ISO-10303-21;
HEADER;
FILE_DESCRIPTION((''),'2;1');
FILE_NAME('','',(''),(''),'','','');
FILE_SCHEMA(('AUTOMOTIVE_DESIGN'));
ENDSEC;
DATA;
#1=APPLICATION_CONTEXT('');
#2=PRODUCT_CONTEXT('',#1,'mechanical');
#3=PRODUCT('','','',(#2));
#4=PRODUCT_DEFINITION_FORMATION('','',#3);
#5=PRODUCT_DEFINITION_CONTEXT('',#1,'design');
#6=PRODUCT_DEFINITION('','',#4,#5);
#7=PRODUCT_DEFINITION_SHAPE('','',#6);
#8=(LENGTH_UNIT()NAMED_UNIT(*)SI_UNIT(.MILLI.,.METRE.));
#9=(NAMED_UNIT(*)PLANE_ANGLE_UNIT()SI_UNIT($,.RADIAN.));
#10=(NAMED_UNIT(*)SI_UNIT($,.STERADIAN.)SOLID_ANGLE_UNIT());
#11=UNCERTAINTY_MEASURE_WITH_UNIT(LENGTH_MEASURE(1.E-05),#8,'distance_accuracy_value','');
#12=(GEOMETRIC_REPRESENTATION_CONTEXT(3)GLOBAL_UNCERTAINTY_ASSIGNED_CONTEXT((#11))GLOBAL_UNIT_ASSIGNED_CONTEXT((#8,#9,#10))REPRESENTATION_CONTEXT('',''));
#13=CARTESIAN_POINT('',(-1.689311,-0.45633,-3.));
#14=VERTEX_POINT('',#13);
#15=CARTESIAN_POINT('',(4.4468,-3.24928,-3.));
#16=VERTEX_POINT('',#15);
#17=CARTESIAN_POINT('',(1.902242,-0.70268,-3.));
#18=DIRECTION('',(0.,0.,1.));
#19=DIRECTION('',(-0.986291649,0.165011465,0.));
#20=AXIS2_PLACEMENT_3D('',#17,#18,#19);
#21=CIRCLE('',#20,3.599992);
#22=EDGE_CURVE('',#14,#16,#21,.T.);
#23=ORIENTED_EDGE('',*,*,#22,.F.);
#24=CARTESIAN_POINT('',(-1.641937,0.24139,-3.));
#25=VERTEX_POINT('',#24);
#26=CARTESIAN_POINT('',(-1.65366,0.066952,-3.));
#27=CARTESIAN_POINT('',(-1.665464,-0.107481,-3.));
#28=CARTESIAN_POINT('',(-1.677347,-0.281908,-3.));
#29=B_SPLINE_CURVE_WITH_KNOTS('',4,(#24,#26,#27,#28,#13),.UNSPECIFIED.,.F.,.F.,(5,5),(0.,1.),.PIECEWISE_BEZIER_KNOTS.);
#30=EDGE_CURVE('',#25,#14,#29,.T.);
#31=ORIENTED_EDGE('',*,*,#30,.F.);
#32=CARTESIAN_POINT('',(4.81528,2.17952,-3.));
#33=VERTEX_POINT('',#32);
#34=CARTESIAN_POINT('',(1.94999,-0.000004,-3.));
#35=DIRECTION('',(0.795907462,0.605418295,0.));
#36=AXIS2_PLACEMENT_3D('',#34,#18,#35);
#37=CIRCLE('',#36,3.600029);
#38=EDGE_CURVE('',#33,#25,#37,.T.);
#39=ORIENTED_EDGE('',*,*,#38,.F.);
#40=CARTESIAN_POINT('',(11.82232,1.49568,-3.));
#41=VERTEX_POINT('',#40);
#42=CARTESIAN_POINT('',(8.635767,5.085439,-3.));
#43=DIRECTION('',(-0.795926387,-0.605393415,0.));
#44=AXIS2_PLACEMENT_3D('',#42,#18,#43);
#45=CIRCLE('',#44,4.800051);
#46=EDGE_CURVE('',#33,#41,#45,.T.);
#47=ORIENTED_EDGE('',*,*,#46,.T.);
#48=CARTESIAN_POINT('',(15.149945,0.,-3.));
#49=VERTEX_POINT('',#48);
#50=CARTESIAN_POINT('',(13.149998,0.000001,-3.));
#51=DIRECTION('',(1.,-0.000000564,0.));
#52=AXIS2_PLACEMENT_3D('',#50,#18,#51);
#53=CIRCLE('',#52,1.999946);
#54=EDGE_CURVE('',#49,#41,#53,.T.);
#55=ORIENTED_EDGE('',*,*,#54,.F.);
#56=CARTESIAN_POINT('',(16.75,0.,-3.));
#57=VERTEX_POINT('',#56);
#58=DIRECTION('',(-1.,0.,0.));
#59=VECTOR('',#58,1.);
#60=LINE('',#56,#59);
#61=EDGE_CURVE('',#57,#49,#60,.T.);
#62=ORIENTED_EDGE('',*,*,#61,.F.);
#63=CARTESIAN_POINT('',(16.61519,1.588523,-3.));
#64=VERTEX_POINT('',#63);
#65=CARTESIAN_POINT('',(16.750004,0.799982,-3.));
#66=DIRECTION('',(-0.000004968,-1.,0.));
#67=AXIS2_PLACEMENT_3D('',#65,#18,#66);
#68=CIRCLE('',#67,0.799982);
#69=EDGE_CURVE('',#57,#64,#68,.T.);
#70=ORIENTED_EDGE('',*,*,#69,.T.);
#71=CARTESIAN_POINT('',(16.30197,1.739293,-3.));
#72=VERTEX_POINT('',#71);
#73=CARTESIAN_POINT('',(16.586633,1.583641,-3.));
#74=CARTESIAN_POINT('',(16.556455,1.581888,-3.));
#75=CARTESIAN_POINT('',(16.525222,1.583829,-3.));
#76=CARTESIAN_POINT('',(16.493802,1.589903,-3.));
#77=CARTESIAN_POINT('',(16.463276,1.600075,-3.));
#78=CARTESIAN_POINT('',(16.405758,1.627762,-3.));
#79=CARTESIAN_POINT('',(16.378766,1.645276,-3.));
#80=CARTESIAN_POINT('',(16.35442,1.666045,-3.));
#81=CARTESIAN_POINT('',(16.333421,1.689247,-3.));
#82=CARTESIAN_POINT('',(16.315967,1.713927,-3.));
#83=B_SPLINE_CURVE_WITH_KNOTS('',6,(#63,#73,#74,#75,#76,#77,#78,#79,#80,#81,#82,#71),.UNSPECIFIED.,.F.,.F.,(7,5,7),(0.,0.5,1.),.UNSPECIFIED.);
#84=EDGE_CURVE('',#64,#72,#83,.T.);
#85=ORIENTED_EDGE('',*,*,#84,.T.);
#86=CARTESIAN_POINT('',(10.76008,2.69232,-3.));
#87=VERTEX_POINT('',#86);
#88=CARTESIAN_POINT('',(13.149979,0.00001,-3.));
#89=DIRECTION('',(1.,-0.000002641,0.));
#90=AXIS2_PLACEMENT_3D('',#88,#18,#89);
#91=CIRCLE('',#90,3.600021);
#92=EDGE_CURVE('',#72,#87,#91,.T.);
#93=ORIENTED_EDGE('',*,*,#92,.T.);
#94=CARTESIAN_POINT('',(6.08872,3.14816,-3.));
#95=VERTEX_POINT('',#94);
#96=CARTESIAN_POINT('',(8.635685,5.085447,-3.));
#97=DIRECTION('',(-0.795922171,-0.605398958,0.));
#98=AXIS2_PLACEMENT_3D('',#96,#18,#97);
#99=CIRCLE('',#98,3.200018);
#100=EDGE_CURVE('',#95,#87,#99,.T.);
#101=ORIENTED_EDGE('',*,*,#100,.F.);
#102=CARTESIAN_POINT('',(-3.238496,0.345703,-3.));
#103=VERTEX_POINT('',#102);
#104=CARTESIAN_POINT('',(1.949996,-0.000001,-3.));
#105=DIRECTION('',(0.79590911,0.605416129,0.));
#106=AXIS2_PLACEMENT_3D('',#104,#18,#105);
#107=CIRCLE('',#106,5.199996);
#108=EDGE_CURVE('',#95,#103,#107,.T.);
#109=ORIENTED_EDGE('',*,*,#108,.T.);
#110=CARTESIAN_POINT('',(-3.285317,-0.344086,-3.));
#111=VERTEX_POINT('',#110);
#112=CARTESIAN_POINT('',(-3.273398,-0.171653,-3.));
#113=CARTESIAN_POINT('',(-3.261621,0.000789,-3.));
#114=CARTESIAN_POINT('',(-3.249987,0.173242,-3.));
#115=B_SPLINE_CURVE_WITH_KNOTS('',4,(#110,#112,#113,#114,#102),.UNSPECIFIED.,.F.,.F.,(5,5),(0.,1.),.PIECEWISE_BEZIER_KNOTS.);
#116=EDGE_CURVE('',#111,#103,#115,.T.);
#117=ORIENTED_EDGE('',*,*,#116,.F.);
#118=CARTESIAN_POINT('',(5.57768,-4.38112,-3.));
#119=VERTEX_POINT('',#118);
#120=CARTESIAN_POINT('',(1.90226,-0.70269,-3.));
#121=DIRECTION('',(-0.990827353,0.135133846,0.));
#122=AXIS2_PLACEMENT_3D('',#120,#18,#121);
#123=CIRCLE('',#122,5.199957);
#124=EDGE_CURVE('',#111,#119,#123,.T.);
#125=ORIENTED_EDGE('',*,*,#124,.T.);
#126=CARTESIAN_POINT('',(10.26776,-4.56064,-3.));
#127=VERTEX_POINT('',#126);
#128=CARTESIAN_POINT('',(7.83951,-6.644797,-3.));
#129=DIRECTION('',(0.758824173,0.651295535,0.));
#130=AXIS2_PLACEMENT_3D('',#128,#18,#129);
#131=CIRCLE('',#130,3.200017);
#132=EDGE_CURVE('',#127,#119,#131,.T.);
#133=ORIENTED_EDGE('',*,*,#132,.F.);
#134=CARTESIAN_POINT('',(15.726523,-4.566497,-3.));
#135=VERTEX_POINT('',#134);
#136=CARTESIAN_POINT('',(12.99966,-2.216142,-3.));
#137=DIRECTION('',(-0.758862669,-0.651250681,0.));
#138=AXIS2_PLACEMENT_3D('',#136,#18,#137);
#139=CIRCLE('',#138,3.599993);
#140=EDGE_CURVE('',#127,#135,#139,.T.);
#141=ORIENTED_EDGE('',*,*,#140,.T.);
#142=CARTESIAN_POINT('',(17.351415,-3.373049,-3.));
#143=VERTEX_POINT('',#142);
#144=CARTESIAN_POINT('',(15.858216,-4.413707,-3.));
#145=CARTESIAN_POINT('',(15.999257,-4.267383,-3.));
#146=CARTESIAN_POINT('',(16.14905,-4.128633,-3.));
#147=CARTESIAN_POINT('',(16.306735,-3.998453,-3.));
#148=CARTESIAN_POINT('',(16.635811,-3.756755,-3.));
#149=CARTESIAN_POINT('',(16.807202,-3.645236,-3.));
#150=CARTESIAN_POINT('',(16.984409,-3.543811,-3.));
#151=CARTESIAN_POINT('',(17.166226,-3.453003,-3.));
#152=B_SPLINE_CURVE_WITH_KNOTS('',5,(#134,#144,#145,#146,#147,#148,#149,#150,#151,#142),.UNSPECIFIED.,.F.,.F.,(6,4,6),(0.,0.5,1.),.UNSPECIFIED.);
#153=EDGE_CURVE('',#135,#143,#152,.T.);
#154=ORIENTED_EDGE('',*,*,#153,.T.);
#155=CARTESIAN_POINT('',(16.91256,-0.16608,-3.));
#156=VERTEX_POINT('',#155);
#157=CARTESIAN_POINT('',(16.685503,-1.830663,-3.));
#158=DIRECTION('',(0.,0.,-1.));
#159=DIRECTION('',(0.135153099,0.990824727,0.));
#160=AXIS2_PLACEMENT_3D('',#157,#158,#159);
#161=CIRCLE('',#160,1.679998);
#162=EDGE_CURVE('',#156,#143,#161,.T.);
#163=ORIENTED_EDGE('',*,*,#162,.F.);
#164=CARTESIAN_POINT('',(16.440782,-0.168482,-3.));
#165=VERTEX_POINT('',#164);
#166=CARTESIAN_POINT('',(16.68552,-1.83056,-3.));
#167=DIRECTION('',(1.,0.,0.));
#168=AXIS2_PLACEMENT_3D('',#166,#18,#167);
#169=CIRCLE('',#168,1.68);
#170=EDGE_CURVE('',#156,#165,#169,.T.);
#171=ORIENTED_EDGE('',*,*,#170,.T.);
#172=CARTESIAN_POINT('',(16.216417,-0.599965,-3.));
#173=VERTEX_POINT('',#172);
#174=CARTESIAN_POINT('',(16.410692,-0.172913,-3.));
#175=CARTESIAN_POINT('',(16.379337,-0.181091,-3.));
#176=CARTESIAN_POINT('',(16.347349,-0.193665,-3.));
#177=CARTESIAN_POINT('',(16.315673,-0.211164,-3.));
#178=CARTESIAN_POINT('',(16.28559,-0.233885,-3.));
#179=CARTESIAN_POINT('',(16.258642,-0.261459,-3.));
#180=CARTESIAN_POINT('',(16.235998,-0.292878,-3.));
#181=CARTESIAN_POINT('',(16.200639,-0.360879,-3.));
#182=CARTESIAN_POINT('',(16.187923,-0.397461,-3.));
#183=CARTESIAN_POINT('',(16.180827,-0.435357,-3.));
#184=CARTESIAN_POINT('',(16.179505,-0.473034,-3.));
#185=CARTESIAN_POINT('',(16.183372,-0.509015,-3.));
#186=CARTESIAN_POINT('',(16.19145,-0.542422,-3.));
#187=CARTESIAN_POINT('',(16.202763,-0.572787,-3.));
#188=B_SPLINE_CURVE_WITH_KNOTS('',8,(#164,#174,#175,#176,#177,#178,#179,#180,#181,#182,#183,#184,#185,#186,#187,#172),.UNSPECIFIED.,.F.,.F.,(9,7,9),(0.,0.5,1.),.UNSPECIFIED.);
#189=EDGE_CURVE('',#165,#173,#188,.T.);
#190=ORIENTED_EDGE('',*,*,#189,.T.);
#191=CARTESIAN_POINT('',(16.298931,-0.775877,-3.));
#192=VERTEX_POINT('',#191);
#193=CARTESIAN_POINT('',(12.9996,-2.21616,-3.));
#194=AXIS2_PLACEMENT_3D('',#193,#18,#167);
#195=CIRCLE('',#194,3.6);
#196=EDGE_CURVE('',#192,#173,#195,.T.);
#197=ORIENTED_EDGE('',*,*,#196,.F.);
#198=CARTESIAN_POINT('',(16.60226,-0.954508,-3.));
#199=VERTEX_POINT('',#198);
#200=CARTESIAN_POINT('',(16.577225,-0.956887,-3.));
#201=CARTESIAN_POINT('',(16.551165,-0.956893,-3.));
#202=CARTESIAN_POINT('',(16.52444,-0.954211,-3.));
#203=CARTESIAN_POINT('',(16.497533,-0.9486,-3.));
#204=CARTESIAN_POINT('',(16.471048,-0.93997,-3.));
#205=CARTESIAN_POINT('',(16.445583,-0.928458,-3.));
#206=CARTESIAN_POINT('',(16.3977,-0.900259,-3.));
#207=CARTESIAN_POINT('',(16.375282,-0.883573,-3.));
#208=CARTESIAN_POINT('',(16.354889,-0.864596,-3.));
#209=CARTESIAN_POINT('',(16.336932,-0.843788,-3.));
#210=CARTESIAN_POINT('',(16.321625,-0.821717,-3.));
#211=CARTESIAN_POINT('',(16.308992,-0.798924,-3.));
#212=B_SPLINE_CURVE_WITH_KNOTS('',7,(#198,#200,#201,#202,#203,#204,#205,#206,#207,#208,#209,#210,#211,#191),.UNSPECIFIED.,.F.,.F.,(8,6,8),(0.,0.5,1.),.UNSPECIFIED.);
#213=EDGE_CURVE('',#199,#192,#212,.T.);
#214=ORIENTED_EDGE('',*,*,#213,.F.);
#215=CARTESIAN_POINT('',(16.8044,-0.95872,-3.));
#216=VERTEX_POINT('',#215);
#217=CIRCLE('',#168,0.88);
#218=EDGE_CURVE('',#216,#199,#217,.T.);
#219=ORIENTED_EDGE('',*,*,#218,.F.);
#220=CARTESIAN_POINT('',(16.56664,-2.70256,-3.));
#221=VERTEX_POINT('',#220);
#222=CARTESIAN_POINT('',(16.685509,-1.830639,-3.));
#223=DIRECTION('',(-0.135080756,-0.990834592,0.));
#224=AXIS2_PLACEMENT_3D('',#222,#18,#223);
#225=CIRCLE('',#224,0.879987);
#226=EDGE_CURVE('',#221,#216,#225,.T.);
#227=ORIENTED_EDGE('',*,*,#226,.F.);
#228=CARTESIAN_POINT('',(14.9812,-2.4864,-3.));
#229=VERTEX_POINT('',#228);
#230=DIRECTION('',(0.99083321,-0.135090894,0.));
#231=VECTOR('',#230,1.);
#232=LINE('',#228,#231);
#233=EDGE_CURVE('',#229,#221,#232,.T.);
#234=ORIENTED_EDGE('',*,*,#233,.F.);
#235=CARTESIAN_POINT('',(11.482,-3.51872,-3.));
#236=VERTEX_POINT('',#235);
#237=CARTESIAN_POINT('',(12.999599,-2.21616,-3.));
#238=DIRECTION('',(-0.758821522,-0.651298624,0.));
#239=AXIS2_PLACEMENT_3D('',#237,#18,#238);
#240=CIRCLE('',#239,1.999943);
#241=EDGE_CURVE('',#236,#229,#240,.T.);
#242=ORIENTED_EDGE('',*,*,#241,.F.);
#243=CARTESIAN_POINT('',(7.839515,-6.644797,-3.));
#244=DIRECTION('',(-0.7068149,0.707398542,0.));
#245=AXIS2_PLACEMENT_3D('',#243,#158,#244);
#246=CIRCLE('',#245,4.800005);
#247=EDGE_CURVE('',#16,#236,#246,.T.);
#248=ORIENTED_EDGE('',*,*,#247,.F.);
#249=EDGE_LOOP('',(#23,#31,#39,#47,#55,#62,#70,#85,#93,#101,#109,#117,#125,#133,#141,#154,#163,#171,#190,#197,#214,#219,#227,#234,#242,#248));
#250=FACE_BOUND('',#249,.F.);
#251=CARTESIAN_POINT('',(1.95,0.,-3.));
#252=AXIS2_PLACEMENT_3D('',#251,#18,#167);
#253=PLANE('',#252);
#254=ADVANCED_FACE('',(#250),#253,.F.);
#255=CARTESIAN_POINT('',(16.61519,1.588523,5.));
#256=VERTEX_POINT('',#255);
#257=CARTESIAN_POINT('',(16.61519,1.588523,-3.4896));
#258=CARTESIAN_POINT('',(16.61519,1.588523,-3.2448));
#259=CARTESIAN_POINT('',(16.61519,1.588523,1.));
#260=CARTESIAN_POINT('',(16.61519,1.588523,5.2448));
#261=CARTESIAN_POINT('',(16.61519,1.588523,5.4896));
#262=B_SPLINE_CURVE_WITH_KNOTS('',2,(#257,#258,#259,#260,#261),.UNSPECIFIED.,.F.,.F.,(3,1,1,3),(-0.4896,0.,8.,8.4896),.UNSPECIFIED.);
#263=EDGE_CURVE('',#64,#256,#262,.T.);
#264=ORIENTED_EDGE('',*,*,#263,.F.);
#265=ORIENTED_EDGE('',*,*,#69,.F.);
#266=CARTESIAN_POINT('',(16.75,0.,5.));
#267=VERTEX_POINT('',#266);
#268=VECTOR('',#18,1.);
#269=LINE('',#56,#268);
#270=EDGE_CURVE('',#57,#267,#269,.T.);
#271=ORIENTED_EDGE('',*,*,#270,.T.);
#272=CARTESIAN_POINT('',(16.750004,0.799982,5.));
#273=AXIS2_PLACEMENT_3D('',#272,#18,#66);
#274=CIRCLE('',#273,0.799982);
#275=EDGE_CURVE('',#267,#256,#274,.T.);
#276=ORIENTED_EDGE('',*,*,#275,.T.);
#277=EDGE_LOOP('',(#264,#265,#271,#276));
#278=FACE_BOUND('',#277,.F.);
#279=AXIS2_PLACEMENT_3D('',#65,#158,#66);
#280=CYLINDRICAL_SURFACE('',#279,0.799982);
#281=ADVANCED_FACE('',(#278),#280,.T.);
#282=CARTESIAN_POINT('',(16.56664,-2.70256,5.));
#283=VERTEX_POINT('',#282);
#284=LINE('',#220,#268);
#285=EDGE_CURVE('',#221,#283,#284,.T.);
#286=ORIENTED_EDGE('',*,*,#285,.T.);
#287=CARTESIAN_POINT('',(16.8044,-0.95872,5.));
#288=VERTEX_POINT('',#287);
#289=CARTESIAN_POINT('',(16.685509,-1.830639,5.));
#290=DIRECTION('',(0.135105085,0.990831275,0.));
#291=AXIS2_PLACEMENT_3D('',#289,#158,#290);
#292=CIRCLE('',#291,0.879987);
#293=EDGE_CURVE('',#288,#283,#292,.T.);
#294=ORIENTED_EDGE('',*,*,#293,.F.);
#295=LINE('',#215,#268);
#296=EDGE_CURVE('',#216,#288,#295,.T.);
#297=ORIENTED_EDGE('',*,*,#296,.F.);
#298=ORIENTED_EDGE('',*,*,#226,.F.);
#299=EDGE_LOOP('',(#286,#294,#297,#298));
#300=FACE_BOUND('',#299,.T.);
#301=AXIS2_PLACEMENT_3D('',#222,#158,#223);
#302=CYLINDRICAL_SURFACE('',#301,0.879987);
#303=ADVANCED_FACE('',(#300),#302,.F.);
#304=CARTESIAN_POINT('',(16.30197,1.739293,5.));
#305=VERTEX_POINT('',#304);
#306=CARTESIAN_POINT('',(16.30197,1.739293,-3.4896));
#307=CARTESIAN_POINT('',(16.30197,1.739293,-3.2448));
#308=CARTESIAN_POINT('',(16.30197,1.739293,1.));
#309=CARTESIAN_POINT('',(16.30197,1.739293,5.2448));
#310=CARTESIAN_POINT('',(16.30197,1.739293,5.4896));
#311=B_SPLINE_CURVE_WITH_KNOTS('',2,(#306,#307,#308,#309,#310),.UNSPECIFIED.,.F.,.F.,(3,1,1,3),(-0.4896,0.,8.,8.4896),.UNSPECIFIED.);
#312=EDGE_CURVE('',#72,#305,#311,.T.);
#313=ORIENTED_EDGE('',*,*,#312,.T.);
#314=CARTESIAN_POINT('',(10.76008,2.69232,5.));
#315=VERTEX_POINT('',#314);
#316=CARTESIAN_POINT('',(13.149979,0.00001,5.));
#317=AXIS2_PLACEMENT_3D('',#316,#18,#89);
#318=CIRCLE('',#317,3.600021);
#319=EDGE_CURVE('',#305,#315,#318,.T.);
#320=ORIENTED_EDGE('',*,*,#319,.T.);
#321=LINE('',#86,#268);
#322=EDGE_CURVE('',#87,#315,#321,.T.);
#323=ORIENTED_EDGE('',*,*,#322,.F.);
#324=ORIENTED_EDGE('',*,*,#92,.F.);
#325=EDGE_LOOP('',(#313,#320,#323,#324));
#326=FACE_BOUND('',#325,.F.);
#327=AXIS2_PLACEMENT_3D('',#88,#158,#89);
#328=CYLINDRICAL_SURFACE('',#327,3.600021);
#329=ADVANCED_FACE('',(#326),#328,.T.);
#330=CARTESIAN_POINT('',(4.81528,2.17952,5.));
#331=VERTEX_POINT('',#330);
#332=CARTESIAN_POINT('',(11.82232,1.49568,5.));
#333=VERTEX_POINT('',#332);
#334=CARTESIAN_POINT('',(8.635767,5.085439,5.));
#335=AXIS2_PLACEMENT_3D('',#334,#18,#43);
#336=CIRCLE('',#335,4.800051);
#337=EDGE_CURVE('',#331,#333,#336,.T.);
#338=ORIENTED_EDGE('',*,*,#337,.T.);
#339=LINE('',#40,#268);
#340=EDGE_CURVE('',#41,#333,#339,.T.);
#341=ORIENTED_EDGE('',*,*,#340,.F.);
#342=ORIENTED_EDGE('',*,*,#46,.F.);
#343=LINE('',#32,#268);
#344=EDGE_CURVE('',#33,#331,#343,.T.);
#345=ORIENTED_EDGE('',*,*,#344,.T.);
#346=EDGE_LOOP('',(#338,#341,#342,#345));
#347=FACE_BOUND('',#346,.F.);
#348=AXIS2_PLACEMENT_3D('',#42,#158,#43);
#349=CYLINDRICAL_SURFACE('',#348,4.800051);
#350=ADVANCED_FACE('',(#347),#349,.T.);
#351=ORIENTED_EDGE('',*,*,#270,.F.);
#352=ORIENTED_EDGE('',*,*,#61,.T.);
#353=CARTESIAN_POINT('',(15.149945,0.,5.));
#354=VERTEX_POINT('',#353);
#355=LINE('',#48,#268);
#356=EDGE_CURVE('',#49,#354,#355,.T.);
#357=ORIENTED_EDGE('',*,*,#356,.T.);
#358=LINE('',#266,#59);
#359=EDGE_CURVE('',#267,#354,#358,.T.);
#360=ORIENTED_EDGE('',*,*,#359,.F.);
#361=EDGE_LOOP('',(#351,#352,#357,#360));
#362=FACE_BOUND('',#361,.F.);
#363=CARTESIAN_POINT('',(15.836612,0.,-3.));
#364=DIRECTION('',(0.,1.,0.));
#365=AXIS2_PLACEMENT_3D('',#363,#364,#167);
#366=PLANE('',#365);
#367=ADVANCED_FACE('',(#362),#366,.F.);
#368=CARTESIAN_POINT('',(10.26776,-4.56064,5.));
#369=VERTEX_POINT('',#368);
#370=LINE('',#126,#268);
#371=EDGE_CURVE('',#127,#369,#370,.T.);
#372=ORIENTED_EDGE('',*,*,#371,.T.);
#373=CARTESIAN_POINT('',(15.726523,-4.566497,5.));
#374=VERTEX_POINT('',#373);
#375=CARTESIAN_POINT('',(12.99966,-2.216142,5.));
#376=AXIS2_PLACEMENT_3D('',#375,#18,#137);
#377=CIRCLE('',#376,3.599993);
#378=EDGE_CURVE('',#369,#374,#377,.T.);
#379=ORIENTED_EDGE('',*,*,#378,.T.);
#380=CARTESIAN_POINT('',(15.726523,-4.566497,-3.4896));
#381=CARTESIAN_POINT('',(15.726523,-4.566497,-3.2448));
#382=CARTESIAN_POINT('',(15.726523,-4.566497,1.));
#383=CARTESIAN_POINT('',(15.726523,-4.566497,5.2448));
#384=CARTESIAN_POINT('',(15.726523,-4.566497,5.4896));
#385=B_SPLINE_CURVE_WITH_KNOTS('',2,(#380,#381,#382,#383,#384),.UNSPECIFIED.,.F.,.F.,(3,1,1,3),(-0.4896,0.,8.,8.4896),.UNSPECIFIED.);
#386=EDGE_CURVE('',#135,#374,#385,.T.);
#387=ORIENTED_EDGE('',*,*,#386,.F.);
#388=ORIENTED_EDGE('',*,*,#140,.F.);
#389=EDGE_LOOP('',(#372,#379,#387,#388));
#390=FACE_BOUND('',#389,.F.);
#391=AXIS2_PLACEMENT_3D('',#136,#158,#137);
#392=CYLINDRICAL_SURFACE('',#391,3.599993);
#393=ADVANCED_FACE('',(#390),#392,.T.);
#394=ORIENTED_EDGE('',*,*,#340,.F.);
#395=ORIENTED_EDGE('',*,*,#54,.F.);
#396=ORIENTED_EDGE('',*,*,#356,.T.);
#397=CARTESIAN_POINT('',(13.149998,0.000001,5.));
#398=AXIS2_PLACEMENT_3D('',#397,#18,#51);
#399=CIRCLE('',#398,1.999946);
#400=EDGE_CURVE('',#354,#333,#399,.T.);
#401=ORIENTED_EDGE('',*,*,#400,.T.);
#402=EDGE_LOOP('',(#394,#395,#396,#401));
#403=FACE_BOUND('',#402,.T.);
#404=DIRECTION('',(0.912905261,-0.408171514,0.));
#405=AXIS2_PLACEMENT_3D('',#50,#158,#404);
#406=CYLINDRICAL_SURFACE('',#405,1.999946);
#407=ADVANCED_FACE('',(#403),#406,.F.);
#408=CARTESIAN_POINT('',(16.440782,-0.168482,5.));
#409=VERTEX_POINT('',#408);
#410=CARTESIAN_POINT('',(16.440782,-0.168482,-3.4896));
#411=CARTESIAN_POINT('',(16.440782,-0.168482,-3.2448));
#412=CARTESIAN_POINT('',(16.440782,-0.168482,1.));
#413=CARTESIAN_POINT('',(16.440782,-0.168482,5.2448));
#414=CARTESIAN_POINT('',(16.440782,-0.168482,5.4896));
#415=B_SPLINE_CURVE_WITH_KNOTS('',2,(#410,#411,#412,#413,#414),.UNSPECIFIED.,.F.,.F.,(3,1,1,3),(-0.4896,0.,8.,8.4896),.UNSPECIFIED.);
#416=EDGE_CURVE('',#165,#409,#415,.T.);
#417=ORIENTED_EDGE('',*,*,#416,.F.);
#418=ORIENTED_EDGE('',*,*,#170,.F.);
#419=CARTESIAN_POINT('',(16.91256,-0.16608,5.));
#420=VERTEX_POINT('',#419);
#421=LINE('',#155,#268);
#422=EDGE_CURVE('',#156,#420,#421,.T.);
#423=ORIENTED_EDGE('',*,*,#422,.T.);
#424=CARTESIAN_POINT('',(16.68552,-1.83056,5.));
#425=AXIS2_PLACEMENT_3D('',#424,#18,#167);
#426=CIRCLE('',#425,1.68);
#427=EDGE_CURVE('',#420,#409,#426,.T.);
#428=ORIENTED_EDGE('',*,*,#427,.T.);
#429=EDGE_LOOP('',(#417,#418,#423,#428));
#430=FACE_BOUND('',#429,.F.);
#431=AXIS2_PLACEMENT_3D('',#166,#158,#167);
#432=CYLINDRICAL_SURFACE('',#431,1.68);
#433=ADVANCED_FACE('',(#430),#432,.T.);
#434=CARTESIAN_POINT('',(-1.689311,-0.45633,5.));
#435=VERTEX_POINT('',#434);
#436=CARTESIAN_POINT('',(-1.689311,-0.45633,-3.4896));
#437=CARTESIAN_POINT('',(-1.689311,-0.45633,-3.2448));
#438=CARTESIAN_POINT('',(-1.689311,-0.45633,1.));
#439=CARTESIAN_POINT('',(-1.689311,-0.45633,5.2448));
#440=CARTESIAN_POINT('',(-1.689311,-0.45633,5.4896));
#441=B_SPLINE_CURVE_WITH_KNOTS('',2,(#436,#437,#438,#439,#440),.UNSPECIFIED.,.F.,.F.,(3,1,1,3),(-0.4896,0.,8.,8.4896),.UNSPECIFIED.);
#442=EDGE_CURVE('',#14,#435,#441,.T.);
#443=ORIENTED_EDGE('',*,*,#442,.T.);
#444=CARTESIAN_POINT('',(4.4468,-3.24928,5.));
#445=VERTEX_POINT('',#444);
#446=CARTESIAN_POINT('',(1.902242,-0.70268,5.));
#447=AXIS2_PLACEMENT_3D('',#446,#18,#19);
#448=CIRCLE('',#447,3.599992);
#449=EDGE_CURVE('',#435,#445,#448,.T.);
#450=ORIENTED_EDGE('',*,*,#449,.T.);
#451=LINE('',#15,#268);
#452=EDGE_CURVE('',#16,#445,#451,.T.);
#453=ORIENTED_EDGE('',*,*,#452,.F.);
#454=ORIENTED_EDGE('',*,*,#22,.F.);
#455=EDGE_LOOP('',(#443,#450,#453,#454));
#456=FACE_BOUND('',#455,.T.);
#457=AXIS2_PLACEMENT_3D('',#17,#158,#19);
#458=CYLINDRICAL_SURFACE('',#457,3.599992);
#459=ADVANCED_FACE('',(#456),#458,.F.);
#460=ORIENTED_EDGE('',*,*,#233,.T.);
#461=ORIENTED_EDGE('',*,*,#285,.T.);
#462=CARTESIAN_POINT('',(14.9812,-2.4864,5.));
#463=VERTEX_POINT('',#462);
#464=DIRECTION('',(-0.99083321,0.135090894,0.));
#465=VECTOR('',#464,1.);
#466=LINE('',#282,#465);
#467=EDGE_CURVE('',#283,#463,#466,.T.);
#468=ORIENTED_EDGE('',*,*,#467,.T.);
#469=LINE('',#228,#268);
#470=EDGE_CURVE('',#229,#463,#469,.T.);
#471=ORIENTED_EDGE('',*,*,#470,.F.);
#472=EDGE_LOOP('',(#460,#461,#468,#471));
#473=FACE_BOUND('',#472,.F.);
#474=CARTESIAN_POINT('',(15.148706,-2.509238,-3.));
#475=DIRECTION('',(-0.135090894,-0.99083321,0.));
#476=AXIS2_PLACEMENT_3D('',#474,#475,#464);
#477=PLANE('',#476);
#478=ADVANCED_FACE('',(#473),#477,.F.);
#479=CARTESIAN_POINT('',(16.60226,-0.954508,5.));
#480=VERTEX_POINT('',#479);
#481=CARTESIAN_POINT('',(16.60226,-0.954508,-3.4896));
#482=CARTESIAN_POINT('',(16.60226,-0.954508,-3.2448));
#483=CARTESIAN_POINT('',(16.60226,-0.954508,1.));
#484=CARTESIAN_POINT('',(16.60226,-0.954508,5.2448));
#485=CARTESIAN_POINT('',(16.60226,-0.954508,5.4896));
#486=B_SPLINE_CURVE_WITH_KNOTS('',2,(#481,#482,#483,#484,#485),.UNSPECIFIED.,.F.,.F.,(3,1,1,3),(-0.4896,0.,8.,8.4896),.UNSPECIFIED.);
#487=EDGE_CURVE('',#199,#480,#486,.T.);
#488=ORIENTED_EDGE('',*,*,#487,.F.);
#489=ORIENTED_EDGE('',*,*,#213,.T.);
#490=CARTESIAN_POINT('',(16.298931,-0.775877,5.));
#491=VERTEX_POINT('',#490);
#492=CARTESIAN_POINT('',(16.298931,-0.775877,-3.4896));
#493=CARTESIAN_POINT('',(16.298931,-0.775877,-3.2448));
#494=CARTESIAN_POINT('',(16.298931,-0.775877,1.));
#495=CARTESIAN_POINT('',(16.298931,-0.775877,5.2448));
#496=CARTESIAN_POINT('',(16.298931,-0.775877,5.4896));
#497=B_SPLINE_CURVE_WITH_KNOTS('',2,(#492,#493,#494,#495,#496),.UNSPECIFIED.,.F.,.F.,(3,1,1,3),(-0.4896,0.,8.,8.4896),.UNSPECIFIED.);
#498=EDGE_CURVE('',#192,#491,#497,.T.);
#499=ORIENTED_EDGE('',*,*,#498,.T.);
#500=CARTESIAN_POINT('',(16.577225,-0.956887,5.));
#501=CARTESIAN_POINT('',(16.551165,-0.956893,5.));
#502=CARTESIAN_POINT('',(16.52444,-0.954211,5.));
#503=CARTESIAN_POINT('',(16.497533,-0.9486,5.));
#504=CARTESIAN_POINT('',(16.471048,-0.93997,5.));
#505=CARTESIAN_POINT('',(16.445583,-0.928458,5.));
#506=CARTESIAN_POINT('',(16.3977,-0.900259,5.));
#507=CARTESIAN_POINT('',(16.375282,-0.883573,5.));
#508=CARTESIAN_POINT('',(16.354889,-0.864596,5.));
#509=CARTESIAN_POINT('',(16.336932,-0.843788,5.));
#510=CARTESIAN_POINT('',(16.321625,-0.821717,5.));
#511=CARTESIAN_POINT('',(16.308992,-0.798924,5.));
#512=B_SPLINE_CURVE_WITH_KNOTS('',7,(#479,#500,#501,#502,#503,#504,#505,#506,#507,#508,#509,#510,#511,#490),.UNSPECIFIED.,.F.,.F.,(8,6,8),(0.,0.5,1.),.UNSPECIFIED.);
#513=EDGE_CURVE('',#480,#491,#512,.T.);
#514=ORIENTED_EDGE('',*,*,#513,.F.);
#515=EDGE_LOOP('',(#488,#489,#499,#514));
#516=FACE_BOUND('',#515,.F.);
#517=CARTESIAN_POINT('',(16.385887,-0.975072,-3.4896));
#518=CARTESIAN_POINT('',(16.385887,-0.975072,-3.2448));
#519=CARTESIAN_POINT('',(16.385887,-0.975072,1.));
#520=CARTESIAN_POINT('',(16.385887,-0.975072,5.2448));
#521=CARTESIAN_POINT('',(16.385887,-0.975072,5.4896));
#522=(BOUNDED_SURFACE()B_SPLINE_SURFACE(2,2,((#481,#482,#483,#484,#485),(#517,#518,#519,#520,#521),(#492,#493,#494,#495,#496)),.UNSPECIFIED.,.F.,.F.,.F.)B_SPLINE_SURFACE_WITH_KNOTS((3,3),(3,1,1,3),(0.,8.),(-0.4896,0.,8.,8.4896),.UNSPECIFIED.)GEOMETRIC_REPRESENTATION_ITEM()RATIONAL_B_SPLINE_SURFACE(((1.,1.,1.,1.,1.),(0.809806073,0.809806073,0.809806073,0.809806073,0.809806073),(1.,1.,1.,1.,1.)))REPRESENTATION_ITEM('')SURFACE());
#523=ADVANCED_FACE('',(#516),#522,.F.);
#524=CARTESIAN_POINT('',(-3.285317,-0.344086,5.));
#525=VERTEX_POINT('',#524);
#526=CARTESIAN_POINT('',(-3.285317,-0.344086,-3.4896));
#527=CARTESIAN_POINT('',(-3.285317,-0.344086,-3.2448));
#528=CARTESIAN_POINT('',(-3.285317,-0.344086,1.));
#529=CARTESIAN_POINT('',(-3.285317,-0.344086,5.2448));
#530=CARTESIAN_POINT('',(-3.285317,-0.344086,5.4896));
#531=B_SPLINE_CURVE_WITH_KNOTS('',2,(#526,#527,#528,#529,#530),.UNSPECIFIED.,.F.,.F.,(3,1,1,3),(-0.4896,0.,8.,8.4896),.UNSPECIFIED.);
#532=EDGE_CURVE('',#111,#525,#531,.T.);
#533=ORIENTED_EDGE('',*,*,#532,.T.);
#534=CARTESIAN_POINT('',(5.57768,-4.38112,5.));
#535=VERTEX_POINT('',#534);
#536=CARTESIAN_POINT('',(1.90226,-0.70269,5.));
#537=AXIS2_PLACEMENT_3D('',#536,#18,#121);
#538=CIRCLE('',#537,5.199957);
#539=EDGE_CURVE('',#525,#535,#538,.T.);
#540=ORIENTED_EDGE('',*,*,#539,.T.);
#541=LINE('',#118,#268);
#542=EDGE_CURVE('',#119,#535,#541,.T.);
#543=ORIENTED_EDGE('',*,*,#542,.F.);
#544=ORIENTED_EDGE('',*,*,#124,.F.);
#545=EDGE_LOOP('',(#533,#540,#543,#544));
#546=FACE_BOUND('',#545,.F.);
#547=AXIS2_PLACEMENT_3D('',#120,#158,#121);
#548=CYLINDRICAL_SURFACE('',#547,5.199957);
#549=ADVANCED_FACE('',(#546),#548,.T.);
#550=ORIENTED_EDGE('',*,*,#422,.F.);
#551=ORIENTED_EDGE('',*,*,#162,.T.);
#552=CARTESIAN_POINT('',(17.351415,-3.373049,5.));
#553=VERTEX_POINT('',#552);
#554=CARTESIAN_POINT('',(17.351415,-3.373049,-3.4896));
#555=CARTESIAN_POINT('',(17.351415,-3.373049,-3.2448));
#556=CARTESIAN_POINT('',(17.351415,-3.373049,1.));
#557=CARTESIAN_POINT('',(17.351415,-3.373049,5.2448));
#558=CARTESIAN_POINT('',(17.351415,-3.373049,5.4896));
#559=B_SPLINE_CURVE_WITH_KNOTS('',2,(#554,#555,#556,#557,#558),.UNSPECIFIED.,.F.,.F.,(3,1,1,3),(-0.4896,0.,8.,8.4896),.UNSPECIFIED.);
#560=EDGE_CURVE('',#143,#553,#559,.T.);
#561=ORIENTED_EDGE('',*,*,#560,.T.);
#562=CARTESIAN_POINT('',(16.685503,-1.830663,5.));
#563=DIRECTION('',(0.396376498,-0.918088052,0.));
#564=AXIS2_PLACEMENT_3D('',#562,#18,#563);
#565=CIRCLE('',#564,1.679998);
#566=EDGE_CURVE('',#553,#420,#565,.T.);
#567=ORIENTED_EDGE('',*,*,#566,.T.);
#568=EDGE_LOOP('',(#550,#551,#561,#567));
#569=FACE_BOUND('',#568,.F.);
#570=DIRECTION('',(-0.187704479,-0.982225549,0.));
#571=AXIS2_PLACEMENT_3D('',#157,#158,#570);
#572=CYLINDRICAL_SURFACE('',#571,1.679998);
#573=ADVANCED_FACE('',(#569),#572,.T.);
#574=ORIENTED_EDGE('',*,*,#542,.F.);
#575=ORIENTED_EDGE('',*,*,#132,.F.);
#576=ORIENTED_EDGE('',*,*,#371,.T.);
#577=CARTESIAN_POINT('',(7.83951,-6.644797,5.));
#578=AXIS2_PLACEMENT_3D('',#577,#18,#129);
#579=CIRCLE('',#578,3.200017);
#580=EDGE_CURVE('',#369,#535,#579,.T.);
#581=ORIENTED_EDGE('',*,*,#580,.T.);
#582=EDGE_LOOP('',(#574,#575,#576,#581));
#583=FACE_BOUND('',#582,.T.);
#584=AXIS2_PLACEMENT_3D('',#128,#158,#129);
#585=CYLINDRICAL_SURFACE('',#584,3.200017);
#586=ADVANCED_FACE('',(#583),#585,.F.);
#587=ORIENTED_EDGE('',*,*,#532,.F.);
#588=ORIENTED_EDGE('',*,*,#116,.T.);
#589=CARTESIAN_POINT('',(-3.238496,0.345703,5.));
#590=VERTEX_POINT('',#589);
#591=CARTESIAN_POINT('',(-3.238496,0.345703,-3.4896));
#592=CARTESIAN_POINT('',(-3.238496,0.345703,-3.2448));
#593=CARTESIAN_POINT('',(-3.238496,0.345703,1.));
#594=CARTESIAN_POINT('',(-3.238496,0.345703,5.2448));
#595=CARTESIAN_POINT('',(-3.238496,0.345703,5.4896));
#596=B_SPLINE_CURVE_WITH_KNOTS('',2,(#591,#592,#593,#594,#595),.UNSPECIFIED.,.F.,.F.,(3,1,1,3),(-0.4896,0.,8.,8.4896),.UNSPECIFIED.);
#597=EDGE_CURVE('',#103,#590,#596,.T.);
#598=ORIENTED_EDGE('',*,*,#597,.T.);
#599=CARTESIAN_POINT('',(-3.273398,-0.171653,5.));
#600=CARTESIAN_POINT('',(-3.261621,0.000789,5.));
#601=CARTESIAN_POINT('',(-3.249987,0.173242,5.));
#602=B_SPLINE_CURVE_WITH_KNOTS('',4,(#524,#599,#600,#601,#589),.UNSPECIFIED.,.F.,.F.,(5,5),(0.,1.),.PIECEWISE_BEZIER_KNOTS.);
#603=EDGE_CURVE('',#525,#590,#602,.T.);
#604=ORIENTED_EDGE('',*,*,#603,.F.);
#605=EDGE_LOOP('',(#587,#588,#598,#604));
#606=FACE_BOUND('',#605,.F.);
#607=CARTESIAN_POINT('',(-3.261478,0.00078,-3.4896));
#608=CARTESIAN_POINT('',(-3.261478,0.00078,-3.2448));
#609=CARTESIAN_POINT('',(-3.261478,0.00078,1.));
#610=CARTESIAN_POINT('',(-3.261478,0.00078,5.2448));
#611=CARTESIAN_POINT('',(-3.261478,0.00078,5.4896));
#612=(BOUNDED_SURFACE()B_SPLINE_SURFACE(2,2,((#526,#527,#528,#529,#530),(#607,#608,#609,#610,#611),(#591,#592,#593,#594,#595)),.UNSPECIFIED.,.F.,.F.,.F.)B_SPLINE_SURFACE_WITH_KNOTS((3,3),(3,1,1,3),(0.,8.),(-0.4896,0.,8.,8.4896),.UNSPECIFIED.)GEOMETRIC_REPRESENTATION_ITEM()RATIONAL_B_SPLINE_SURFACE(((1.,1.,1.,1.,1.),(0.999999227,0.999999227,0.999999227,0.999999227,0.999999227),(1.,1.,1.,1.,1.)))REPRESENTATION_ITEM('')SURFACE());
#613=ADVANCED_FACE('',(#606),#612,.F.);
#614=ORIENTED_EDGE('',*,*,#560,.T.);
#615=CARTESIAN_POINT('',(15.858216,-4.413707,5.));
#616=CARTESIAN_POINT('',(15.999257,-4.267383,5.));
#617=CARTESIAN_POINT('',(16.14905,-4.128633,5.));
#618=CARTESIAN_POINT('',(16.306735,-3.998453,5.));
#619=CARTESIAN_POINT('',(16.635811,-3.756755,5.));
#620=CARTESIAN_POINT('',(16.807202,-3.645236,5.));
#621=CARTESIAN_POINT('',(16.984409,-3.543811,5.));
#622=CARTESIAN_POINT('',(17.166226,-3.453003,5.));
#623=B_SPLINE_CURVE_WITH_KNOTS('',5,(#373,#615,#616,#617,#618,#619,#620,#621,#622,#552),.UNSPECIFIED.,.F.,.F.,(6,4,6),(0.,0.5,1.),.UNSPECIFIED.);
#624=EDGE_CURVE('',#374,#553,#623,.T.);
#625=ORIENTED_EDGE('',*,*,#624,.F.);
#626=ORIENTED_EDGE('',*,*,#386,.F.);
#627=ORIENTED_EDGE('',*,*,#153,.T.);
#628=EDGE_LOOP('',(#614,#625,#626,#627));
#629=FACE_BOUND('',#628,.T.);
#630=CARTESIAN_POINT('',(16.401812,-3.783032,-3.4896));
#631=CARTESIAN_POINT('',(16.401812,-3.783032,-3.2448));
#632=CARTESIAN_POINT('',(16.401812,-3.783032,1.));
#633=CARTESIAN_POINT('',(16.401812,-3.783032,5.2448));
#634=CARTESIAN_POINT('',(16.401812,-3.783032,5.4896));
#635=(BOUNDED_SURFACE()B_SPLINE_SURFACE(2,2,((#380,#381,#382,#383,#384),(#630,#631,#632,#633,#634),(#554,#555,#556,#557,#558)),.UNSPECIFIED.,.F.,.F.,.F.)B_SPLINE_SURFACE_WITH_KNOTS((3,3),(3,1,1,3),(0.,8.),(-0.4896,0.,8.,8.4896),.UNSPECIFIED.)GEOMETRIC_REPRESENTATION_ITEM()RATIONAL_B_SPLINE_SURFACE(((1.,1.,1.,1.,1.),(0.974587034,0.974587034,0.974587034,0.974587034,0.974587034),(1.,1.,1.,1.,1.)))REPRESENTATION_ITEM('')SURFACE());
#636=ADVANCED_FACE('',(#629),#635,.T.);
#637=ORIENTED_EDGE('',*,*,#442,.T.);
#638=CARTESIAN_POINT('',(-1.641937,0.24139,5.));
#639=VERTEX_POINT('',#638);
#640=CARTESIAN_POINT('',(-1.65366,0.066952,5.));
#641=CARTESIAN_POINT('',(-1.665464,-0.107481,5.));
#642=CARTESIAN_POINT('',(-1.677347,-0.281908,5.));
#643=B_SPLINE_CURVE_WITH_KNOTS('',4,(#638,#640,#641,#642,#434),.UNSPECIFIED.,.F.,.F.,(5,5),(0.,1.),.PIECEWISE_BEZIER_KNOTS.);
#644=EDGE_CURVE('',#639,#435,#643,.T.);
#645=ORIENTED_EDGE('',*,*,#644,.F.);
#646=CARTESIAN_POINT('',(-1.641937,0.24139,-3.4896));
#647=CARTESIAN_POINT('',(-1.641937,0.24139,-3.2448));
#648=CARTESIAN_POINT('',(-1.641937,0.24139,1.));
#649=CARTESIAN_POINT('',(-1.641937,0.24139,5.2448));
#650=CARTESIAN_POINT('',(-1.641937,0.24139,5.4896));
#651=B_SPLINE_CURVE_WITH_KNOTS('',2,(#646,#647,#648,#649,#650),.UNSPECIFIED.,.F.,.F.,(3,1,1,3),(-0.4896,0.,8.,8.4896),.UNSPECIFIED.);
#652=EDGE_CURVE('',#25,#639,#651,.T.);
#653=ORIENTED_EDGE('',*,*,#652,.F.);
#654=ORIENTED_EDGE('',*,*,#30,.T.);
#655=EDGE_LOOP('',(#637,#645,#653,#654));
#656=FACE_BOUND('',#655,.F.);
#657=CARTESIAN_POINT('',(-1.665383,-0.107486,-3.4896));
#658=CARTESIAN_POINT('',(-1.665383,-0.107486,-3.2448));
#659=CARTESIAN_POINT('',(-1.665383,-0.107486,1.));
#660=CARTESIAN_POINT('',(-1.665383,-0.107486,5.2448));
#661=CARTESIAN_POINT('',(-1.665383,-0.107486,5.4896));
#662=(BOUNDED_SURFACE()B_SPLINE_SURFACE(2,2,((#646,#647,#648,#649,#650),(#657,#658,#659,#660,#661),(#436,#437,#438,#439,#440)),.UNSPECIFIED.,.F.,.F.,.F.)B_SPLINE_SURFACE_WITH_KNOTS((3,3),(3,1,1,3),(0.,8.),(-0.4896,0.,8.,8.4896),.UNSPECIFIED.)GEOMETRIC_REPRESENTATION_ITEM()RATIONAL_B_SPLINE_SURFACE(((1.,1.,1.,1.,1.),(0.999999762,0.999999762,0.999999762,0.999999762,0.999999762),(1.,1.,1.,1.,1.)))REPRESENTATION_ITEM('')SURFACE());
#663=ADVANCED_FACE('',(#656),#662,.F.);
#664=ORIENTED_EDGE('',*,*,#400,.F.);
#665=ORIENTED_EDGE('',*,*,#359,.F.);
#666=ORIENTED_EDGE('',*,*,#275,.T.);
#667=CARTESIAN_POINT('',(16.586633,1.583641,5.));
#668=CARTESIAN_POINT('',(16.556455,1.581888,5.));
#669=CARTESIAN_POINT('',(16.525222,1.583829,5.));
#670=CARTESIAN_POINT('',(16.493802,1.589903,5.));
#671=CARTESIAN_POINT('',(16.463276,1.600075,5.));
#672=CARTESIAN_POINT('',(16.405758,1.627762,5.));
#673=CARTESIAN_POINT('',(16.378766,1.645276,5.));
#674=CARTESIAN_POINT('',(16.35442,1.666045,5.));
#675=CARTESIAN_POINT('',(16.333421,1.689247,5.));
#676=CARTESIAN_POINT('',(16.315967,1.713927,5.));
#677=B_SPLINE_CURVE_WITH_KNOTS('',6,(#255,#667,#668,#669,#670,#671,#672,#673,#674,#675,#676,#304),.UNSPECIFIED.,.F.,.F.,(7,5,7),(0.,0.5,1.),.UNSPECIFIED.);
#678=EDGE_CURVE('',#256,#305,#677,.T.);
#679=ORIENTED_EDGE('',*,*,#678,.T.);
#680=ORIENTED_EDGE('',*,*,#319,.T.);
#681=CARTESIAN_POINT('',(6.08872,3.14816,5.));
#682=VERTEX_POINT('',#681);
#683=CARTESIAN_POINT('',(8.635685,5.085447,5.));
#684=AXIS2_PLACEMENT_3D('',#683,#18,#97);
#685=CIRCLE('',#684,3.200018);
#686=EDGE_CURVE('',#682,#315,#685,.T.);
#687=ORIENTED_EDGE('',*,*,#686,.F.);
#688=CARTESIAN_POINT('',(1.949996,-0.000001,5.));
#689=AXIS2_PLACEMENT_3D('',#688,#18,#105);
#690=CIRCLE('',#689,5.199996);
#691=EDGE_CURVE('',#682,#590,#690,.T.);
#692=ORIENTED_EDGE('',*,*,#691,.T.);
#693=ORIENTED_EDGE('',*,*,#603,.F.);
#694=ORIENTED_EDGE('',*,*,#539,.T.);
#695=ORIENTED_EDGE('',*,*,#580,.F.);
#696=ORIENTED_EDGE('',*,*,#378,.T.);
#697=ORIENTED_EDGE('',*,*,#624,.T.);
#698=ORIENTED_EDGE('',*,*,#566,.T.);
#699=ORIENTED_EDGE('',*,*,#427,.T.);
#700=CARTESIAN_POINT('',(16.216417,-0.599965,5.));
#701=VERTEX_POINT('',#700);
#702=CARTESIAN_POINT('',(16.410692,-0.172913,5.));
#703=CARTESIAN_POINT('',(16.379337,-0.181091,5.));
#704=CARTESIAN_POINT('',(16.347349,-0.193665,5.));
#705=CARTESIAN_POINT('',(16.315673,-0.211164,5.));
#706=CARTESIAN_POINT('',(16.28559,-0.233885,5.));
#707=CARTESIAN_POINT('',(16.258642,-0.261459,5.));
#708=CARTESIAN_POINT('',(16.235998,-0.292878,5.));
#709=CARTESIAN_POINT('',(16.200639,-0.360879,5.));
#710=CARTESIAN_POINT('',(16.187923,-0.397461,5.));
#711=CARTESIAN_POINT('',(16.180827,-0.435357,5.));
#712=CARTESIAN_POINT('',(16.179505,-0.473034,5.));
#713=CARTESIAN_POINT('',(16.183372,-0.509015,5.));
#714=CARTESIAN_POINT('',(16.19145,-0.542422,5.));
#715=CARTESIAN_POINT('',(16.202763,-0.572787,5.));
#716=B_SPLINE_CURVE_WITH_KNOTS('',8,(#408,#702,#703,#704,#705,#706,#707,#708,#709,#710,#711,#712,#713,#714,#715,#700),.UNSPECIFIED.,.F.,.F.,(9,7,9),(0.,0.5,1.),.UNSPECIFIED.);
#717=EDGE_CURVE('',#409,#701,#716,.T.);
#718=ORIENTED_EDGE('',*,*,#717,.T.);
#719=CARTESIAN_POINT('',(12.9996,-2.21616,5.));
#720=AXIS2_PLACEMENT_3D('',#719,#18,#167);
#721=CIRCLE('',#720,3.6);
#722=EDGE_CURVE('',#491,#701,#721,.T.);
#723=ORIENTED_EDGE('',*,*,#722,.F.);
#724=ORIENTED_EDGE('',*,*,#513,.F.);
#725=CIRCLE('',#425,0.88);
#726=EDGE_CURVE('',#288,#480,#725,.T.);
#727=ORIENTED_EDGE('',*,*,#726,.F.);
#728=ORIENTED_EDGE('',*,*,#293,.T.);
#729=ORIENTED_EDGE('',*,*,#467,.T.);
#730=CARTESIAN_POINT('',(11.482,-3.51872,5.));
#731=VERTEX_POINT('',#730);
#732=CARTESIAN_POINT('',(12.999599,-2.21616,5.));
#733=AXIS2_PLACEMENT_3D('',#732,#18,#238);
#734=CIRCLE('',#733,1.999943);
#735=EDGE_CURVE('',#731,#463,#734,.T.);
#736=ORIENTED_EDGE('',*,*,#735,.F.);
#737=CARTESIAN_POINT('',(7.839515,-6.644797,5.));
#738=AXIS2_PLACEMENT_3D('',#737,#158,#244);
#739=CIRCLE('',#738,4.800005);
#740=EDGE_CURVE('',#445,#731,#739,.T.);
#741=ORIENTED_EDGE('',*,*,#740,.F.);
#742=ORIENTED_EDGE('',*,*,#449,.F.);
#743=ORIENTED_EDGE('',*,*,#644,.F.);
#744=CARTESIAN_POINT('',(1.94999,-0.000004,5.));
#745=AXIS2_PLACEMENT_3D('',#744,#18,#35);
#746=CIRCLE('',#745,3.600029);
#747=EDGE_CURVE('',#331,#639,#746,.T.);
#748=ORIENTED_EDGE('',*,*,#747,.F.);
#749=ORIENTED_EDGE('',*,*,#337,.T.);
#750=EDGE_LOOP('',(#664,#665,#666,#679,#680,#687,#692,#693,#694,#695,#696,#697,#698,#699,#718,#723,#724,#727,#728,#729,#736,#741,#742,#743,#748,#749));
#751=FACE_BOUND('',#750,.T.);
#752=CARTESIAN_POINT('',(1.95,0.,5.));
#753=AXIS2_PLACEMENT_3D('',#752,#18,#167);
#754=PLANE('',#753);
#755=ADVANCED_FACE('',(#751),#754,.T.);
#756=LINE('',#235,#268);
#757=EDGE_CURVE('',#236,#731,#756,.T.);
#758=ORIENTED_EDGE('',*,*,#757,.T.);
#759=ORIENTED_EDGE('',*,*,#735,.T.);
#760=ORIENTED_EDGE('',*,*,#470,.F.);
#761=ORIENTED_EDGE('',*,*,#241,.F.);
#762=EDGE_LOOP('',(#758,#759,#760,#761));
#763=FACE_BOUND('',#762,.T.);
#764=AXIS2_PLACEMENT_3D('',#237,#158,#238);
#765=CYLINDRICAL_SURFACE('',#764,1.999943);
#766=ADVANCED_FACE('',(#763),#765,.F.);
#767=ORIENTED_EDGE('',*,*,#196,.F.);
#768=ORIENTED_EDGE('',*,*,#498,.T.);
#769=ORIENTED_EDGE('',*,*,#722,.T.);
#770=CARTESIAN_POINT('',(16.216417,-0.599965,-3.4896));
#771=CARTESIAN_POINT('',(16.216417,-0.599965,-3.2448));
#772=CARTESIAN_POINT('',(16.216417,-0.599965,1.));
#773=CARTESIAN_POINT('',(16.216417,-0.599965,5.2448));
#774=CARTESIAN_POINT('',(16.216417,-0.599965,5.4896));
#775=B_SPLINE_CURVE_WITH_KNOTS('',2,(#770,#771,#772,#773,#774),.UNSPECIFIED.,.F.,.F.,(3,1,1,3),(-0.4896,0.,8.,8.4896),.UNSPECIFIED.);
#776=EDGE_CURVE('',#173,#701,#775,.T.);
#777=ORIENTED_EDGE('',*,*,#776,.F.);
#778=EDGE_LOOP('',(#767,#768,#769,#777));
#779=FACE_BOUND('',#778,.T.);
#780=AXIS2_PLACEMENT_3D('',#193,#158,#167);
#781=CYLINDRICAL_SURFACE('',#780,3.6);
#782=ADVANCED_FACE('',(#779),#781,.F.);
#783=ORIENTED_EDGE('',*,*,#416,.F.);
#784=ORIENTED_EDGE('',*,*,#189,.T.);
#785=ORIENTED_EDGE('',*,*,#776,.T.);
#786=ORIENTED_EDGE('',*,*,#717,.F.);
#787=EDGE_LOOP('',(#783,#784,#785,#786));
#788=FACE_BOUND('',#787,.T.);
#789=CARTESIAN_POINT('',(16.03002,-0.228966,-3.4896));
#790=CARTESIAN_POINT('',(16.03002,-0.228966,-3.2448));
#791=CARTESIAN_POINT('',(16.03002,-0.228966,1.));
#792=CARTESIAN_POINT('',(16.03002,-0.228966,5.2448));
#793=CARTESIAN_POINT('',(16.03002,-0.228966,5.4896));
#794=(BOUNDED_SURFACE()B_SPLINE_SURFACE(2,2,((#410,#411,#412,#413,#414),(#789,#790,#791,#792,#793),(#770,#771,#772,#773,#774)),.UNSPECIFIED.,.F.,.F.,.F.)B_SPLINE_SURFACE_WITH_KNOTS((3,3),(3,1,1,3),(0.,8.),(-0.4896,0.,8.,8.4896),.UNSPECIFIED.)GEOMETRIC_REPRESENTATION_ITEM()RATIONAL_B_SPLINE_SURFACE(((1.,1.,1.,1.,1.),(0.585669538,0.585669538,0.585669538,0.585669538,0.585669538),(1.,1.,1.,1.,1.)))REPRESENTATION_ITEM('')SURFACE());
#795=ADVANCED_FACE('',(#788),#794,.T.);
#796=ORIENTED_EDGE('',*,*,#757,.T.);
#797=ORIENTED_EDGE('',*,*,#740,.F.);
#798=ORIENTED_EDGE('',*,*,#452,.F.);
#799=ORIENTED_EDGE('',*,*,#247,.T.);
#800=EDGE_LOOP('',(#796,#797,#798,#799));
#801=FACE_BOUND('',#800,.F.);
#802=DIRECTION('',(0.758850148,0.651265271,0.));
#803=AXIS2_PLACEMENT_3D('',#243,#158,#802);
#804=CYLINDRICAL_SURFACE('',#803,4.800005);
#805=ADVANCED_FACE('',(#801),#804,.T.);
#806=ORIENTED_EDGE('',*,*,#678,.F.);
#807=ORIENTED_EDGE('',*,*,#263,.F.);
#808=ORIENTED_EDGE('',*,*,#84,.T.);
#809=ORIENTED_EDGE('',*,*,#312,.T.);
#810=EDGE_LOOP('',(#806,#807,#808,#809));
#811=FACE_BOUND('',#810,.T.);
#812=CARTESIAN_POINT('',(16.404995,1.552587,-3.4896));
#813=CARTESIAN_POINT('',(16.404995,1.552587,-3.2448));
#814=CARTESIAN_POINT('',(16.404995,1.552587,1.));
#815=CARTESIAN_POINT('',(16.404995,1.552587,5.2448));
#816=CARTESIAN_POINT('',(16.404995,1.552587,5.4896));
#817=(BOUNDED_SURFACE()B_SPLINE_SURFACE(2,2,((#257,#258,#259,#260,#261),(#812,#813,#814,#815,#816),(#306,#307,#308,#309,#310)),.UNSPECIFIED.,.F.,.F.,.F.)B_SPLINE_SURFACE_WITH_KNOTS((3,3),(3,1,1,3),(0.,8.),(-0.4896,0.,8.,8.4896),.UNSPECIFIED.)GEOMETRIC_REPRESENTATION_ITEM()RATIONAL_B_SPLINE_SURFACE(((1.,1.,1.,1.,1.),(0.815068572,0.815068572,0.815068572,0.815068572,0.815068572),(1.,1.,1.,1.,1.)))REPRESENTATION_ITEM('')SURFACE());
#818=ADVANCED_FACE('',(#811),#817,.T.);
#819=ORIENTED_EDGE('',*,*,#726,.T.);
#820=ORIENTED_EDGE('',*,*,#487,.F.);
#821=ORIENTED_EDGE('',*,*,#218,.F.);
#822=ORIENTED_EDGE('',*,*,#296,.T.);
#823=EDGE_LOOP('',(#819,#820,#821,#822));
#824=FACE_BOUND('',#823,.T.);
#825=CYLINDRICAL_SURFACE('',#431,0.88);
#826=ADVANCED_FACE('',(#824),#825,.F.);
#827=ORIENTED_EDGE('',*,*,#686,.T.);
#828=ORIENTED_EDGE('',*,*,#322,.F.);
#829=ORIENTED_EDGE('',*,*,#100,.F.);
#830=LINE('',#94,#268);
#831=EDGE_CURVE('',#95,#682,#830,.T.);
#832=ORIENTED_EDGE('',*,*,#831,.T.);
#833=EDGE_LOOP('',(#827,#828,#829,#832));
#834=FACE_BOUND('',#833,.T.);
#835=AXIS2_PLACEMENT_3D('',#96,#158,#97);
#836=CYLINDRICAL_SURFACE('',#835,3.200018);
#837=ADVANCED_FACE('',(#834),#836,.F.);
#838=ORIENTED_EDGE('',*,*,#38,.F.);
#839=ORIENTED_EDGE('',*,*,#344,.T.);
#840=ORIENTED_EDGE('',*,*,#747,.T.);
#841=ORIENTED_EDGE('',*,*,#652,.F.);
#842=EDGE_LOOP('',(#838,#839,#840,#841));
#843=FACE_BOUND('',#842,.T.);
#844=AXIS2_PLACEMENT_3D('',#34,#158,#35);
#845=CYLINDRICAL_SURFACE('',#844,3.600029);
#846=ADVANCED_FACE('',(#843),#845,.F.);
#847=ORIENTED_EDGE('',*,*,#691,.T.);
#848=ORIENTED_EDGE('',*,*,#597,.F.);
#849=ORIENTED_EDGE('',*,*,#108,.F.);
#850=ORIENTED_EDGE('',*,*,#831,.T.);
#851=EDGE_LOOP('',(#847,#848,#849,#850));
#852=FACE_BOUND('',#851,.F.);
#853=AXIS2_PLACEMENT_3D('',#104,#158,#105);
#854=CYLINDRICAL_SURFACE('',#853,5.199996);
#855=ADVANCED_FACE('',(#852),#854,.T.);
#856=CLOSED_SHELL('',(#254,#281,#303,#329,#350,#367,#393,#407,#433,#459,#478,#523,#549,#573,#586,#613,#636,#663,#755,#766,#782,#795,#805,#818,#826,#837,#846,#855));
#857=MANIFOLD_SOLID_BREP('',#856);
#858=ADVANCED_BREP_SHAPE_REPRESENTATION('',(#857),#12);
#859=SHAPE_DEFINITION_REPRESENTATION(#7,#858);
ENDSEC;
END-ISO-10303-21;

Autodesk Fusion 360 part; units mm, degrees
sketch "Sketch1" plane through (0, 0, 0) normal (0, 0, 1) x (1, 0, 0)
  line L0 (1.75, 0) -> (22.5, 0)
  arc A0 (2.5867, 1.9676) -> (5.5063, 1.6827) centre (4.1786, 3.1784) ccw
  arc A1 (2.5867, 1.9676) -> (-3.25, 0) centre (0, 0) ccw
  arc A2 (9.25, 0) -> (5.5063, 1.6827) centre (7, 0) ccw
  line L1 (0, 0) -> (-9.754, 0) construction
  line L2 (-0.0298, -0.4392) -> (6.906, -1.3851) construction
  line L3 (-0.0298, -0.4392) -> (-3.25, 0) construction
  arc A3 (-3.25, 0) -> (2.2673, -2.7382) centre (-0.0298, -0.4392) ccw
  arc A4 (5.1986, -2.8504) -> (2.2673, -2.7382) centre (3.681, -4.153) ccw
  arc A5 (5.1986, -2.8504) -> (9.1354, -1.6891) centre (6.906, -1.3851) ccw
  line L4 (6.906, -1.3851) -> (14.4668, -2.4162) construction
  line L5 (9.25, 0) -> (9.25, 1.1887) construction
  line L6 (9.1354, -1.6891) -> (9.284, -0.5992) construction
  line L7 (9.284, -0.5992) -> (9.3516, -0.1038)
  arc A6 (9.0126, -2.1755) -> (9.3516, -0.1038) centre (9.2097, -1.1441) ccw
  arc A7 (9.1354, -1.6891) -> (9.284, -0.5992) centre (9.2097, -1.1441) ccw
  arc A8 (9.25, 0) -> (9.0382, 0.9529) centre (9.25, 0.5) ccw
  line L8 (9.1354, -1.6891) -> (8.1445, -1.554)
  circle A9 centre (6.906, -1.3851) radius 2.25
  circle A10 centre (9.2097, -1.1441) radius 0.55
  circle A11 centre (9.2097, -1.1441) radius 1.05
  arc A12 (8.2852, -0.6486) -> (8.3822, -1.0313) centre (9.284, -0.5992) ccw
  arc A13 (8.3822, -1.0313) -> (8.1445, -1.554) centre (9.1354, -1.6891) ccw
  arc A14 (5.9575, -2.1992) -> (8.1445, -1.554) centre (6.906, -1.3851) ccw
  arc A15 (5.9575, -2.1992) -> (1.5605, -2.0308) centre (3.681, -4.153) ccw
  arc A16 (-2.249, -0.0679) -> (1.5605, -2.0308) centre (-0.0298, -0.4392) ccw
  arc A17 (1.7908, 1.3622) -> (-2.249, -0.0679) centre (0, 0) ccw
  arc A18 (1.7908, 1.3622) -> (6.1702, 0.9348) centre (4.1786, 3.1784) ccw
  arc A19 (8.1411, -0.5102) -> (6.1702, 0.9348) centre (7, 0) ccw
  arc A20 (8.1411, -0.5102) -> (8.2852, -0.6486) centre (9.25, 0.5) ccw
  arc A21 (8.8249, -3.1577) -> (10.7264, 0.235) centre (9.2097, -1.1441) ccw
  arc A22 (10.7264, 0.235) -> (8.6147, 1.8588) centre (9.25, 0.5) ccw
  dimension "d1" = 6.5
  dimension "d2" = 4.5
  dimension "d3" = 4
  dimension "d4" = 7
  dimension "d9" = 7
  dimension "d10" = 1
  dimension "d11" = 1.1
  dimension "d12" = 0.5
  dimension "d13" = -1
extrude "Extrude1" add sketch "Sketch1" along normal blind 5 contours L0 A9 A19 | L0 A0 A1 A2 A3 A4 A9 A15 A16 A17 A18 A19 | A5 L8 A9 A11 A14 A15 | A2 A8 | L7 A9 A10 A11 | A5 L8 A9 A11 | A5 L7 A6 A7 A9 A10 A11 picked at (8.4833, 0.0606)
scale "Scale1" factor 1.6 about (-3.25, 0, 5) bodies 1
fillet "Fillet1" radius 278 1 edges at (-3.25, 0, 1)
fillet "Fillet1" radius 506.5 1 edges at (-1.6484, -0.1087, 1)
fillet "Fillet1" radius 4.5 1 edges at (16.3701, -3.4808, 1)
fillet "Fillet1" radius 0.3 1 edges at (16.4112, 1.5247, 1)
fillet "Fillet1" radius 0.3 2 edges at (16.0356, -0.2814, 1) (16.3887, -1.0022, 1)
equation "d9 = d4"
equation "d11 = d10 + 0.1 mm"
